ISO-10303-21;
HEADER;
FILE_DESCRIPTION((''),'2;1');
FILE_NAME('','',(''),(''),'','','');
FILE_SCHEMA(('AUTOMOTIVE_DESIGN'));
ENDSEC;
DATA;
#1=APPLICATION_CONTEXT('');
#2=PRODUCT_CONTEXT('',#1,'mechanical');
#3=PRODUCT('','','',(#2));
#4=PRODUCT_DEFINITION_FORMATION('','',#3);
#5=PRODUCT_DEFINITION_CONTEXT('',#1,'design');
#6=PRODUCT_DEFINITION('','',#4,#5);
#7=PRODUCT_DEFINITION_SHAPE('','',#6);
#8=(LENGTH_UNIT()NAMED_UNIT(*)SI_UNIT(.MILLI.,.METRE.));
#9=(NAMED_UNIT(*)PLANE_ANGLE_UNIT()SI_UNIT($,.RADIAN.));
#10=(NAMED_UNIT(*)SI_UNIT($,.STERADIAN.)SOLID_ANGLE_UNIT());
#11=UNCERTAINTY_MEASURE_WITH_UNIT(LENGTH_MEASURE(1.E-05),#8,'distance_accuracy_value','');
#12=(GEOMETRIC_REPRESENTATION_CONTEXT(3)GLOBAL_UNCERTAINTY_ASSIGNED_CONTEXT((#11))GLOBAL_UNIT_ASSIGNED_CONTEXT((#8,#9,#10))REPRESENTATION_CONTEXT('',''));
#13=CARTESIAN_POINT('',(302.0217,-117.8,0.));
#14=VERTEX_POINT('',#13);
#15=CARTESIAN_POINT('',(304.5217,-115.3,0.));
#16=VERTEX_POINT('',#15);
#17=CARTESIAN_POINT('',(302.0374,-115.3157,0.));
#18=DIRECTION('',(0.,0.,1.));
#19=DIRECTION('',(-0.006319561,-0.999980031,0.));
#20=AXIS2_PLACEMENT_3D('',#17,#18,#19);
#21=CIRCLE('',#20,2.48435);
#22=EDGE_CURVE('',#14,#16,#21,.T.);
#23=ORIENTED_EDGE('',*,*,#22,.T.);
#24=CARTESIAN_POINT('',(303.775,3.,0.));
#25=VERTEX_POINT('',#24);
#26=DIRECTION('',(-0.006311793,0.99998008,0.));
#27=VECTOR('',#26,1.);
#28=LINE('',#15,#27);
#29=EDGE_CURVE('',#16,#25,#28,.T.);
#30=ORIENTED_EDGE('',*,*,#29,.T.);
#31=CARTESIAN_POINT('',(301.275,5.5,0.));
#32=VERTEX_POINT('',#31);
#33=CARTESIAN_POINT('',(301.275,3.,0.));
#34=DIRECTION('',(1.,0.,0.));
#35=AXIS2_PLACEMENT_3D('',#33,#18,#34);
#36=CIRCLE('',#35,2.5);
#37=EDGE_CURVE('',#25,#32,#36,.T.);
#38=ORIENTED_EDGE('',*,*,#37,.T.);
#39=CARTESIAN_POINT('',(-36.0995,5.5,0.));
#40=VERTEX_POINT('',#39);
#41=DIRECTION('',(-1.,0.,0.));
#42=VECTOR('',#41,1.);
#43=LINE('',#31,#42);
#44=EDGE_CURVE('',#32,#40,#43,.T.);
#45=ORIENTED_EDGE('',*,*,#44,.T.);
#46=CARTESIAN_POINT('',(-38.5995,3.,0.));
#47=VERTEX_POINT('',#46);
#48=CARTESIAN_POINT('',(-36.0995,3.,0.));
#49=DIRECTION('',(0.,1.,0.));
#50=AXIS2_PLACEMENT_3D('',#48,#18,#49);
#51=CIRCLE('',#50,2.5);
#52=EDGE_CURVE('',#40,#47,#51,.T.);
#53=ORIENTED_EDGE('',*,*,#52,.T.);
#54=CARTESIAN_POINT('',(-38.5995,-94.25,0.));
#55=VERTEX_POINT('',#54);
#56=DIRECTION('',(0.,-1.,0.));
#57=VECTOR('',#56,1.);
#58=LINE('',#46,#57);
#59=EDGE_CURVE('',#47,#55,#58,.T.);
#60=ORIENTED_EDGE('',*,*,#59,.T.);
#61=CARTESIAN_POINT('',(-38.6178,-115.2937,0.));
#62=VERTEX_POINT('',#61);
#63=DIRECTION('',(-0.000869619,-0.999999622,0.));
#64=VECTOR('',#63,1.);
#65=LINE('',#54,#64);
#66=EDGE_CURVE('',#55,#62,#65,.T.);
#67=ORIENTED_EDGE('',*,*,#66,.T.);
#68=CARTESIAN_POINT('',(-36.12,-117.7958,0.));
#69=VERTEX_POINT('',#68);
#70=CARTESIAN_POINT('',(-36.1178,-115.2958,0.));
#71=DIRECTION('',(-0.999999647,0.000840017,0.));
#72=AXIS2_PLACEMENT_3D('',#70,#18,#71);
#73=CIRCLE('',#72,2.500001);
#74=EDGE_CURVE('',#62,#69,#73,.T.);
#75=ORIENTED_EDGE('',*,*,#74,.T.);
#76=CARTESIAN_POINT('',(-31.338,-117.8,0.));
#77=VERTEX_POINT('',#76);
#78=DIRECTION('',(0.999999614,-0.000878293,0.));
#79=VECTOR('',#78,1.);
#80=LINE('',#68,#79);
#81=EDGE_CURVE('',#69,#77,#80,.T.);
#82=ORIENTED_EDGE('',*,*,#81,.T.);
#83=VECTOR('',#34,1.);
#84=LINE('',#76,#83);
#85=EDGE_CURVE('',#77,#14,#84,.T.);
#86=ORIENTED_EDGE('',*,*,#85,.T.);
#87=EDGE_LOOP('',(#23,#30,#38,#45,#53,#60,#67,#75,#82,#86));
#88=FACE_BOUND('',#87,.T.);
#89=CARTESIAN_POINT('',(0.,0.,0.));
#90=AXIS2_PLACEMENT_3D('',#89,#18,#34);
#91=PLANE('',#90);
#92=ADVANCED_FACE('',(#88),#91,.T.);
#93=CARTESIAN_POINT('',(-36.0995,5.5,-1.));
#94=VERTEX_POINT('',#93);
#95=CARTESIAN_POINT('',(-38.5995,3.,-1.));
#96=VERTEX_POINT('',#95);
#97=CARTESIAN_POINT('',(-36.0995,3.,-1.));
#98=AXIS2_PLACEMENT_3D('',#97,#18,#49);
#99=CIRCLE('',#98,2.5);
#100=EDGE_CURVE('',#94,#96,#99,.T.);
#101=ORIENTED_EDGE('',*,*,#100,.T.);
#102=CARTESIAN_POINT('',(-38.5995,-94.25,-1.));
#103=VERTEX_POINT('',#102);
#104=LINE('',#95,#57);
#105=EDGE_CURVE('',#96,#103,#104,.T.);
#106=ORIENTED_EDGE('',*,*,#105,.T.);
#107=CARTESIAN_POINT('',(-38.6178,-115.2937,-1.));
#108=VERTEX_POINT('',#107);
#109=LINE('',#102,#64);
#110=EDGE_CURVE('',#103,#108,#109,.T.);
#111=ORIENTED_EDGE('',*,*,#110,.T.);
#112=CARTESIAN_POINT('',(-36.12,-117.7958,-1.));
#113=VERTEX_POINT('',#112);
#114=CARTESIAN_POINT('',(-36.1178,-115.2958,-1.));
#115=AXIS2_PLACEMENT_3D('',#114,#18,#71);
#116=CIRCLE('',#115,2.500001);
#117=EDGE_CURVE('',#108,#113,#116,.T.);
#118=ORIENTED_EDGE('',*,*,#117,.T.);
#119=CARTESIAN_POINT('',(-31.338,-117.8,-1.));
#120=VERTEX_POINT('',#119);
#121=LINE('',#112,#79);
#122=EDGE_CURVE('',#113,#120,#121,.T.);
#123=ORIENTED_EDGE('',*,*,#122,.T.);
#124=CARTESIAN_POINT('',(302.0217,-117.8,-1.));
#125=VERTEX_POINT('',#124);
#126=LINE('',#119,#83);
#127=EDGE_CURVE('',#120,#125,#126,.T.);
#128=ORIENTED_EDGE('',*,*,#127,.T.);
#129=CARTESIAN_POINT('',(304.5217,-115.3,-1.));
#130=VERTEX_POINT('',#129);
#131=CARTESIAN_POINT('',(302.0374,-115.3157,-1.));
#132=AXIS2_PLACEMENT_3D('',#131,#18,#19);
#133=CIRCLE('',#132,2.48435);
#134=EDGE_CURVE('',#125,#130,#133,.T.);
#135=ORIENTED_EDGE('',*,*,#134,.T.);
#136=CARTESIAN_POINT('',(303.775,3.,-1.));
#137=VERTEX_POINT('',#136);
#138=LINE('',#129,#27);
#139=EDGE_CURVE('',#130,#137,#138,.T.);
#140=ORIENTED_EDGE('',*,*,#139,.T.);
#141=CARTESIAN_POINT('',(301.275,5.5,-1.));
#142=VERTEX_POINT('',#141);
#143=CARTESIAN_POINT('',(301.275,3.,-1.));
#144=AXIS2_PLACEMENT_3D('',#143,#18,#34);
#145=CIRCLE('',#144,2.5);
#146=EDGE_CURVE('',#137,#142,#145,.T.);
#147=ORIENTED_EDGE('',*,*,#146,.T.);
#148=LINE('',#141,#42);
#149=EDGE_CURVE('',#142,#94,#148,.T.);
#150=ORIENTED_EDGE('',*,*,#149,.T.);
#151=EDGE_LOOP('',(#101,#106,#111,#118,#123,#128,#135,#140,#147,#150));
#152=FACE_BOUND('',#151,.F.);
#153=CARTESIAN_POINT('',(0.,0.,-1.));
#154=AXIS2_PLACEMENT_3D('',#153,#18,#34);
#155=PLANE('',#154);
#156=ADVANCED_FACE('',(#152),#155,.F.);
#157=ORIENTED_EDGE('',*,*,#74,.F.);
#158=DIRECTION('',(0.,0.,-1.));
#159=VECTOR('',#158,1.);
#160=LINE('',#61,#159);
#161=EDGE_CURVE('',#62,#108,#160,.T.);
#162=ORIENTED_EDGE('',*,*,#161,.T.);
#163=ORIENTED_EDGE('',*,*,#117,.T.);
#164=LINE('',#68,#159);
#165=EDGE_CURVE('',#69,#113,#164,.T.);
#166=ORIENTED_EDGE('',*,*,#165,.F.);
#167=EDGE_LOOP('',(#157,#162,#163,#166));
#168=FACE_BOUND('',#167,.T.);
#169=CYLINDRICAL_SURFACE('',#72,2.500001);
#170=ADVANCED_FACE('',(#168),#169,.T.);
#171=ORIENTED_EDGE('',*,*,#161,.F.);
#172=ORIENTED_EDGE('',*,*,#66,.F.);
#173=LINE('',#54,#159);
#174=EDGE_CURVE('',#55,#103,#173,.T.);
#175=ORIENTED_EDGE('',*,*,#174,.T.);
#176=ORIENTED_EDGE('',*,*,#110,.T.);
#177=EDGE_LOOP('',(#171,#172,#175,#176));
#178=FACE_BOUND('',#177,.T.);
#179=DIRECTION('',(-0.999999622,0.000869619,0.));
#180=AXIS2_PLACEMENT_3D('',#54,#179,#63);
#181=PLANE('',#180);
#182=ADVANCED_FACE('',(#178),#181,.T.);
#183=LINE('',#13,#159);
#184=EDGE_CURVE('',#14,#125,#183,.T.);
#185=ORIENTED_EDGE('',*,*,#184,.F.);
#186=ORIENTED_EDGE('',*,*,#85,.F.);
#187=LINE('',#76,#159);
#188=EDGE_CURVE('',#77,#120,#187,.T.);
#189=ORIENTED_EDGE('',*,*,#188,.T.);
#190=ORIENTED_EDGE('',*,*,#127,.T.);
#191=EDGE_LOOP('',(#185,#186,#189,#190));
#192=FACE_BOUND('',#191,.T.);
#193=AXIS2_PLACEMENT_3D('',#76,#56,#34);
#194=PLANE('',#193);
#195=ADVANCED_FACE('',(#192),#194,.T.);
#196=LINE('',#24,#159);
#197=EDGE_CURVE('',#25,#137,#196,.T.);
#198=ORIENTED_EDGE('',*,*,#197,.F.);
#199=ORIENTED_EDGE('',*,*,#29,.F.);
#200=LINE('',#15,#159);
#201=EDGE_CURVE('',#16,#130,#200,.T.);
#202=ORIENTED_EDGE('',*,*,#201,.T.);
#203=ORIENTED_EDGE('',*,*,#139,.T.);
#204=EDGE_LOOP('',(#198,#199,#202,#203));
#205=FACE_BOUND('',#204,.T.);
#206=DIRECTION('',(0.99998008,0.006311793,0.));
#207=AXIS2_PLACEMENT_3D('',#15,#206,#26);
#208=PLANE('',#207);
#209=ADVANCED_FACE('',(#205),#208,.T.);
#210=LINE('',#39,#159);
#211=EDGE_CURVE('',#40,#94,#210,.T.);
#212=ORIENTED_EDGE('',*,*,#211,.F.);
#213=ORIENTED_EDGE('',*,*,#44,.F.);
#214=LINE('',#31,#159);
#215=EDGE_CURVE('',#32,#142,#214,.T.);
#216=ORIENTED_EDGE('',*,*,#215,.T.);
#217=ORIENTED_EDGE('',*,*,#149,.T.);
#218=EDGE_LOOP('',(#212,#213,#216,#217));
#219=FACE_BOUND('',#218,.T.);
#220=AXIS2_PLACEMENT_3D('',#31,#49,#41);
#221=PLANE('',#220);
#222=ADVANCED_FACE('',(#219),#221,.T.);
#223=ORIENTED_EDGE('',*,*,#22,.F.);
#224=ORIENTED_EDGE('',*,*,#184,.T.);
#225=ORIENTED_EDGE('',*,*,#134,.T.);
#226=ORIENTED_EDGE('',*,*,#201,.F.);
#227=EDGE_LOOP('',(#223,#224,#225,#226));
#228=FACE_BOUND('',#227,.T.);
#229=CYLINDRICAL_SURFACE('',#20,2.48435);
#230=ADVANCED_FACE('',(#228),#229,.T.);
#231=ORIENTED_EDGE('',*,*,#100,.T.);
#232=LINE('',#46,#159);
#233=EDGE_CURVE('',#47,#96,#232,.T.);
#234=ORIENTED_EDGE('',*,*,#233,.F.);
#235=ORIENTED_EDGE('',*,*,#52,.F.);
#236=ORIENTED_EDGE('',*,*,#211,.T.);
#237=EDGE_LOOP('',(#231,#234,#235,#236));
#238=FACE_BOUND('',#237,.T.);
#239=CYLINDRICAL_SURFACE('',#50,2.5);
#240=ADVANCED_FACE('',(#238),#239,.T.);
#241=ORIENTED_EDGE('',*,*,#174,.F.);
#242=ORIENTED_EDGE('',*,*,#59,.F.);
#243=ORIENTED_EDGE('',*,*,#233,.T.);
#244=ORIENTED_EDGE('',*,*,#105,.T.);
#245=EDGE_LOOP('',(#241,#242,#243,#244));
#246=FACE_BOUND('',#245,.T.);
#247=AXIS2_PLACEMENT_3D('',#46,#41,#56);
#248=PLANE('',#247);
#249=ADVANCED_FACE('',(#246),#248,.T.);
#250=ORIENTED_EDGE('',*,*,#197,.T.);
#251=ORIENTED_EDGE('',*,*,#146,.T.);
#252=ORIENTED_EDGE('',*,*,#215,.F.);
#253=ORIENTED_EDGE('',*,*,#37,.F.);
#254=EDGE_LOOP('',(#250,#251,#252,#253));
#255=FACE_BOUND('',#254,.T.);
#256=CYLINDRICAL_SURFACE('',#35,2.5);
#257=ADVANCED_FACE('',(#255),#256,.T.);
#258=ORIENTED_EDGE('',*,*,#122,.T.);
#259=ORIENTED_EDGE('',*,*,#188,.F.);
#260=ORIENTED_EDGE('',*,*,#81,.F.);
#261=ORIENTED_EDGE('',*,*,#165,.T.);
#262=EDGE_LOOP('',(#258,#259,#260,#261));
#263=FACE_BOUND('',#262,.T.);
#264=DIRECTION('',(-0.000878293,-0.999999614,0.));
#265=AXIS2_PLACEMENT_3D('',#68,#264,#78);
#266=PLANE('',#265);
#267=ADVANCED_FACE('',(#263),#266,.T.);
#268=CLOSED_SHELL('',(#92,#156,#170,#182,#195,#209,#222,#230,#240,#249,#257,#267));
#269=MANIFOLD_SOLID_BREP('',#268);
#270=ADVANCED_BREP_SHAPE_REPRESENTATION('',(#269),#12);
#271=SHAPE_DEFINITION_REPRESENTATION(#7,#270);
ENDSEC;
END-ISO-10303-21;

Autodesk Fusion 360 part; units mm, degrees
sketch "Reference" plane through (0, 0, 0) normal (0, 0, 1) x (1, 0, 0)
  line L0 (298.2751, -95.25) -> (298.2751, -113.3)
  line L1 (298.275, 1) -> (298.275, -57.15)
  line L2 (298.275, -57.15) -> (298.275, -57.15)
  line L3 (304.5217, -115.3) -> (303.775, 3)
  line L4 (179.47, 0) -> (290.235, 0)
  line L5 (290.2351, -112.3) -> (230.642, -112.3)
  line L6 (290.235, 1) -> (298.275, 1)
  line L7 (290.235, 0) -> (298.275, 0)
  line L8 (290.2351, -112.3) -> (298.2751, -112.3)
  arc A0 (302.0217, -117.8) -> (304.5217, -115.3) centre (302.0374, -115.3157) ccw
  line L9 (298.2751, -57.15) -> (298.2751, -74.2)
  line L10 (171.43, 0) -> (171.43, 1)
  line L11 (230.642, -112.3) -> (230.642, -113.3)
  line L12 (222.602, -113.3) -> (222.602, -112.3)
  arc A1 (303.775, 3) -> (301.275, 5.5) centre (301.275, 3) ccw
  line L13 (-28.337, -112.3) -> (-29.3375, -112.3)
  line L14 (-28.3375, 1.5) -> (-28.3375, 3)
  line L15 (-28.337, 1.5) -> (-6.3413, 1.5)
  line L16 (230.642, -112.3) -> (230.642, -113.3)
  line L17 (230.642, -113.3) -> (222.602, -113.3)
  line L18 (-36.12, -117.7958) -> (-31.338, -117.8)
  line L19 (222.602, -113.3) -> (222.602, -112.3)
  line L20 (-28.337, -113.3) -> (-28.337, -112.3)
  line L21 (-29.3375, -113.3) -> (-29.338, -113.3)
  arc A2 (-38.6178, -115.2937) -> (-36.12, -117.7958) centre (-36.1178, -115.2958) ccw
  line L22 (57.336, -112.3) -> (-20.297, -112.3)
  line L23 (8.02, 1) -> (8.02, 0)
  line L24 (-29.3375, -112.3) -> (-29.3375, -113.3)
  line L25 (-33.0995, -112.3) -> (-33.0995, 1.5)
  line L26 (-29.338, -112.3) -> (-33.0995, -112.3)
  line L27 (57.336, -113.3) -> (57.336, -112.3)
  line L28 (-20.297, -113.3) -> (-28.337, -113.3)
  line L29 (-29.338, -113.3) -> (-29.338, -112.3)
  line L30 (-20.297, -112.3) -> (-20.297, -113.3)
  line L31 (301.275, 5.5) -> (-36.0995, 5.5)
  line L32 (-38.5995, -94.25) -> (-38.6178, -115.2937)
  line L33 (298.2751, -76.2) -> (298.2751, -93.25)
  line L34 (298.275, -95.25) -> (298.275, -95.25)
  line L35 (298.275, -76.2) -> (298.275, -76.2)
  line L36 (-6.3413, 1.5) -> (-6.3413, 0)
  line L37 (-38.5995, 3) -> (-38.5995, -94.25)
  arc A3 (303.775, 3) -> (301.275, 5.5) centre (301.275, 3) ccw
  line L38 (298.2751, -74.2) -> (298.275, -74.2)
  line L39 (-28.337, 3) -> (-28.337, 1.5)
  line L40 (-33.0995, 1.5) -> (-28.3375, 1.5)
  line L41 (-0.02, 0) -> (-0.02, 1)
  arc A4 (-36.0995, 5.5) -> (-38.5995, 3) centre (-36.0995, 3) ccw
  line L42 (-31.338, -117.8) -> (302.0217, -117.8)
  line L43 (-6.3413, 0) -> (-0.02, 0)
  line L44 (298.275, -57.15) -> (298.275, -57.15)
  line L45 (-0.02, 1) -> (8.02, 1)
  line L46 (8.02, 0) -> (171.43, 0)
  line L47 (-28.3375, 3) -> (-28.337, 3)
  line L48 (290.235, 0) -> (290.235, 1)
  line L49 (290.235, 1) -> (298.275, 1)
  line L50 (298.2751, -57.15) -> (298.2751, -74.2)
  line L51 (298.275, 1) -> (298.275, -57.15)
  line L52 (222.602, -112.3) -> (65.376, -112.3)
  line L53 (-33.0995, -112.3) -> (-33.0995, 1.5)
  line L54 (301.275, 5.5) -> (-36.0995, 5.5)
  line L55 (-31.338, -117.8) -> (302.0217, -117.8)
  line L56 (57.336, -112.3) -> (-20.297, -112.3)
  line L57 (8.02, 0) -> (171.43, 0)
  line L58 (290.2351, -112.3) -> (230.642, -112.3)
  line L59 (298.2751, -95.25) -> (298.2751, -113.3)
  line L60 (298.275, -76.2) -> (298.275, -76.2)
  line L61 (298.275, -74.2) -> (298.275, -76.2)
  line L62 (298.2751, -76.2) -> (298.2751, -93.25)
  line L63 (298.2751, -93.25) -> (298.275, -93.25)
  line L64 (298.275, -93.25) -> (298.275, -95.25)
  line L65 (290.2351, -113.3) -> (290.2351, -112.3)
  arc A5 (302.0217, -117.8) -> (304.5217, -115.3) centre (302.0374, -115.3157) ccw
  line L66 (179.47, 0) -> (290.235, 0)
  line L67 (298.2751, -113.3) -> (290.2351, -113.3)
  line L68 (304.5217, -115.3) -> (303.775, 3)
  line L69 (298.275, -95.25) -> (298.275, -95.25)
  line L70 (57.336, -113.3) -> (57.336, -112.3)
  line L71 (65.376, -113.3) -> (57.336, -113.3)
  line L72 (-29.338, -113.3) -> (-29.338, -112.3)
  line L73 (-6.3413, 1.5) -> (-6.3413, 0)
  line L74 (-29.3375, -113.3) -> (-29.338, -113.3)
  line L75 (-29.3375, -112.3) -> (-29.3375, -113.3)
  line L76 (-28.3375, 1.5) -> (-28.3375, 3)
  line L77 (-28.337, 1.5) -> (-6.3413, 1.5)
  line L78 (-28.337, -112.3) -> (-29.3375, -112.3)
  line L79 (-28.337, -113.3) -> (-28.337, -112.3)
  line L80 (-28.3375, 3) -> (-28.337, 3)
  line L81 (-20.297, -113.3) -> (-28.337, -113.3)
  line L82 (65.376, -112.3) -> (65.376, -113.3)
  line L83 (-20.297, -112.3) -> (-20.297, -113.3)
  line L84 (-29.338, -112.3) -> (-33.0995, -112.3)
  line L85 (8.02, 1) -> (8.02, 0)
  line L86 (-28.337, 3) -> (-28.337, 1.5)
  arc A6 (-38.6178, -115.2937) -> (-36.12, -117.7958) centre (-36.1178, -115.2958) ccw
  line L87 (-38.5995, -94.25) -> (-38.6178, -115.2937)
  line L88 (-38.5995, 3) -> (-38.5995, -94.25)
  line L89 (-0.02, 0) -> (-0.02, 1)
  line L90 (-33.0995, 1.5) -> (-28.3375, 1.5)
  line L91 (-6.3413, 0) -> (-0.02, 0)
  arc A7 (-36.0995, 5.5) -> (-38.5995, 3) centre (-36.0995, 3) ccw
  line L92 (-0.02, 1) -> (8.02, 1)
  line L93 (-36.12, -117.7958) -> (-31.338, -117.8)
  line L94 (298.275, -93.25) -> (298.275, -95.25)
  line L95 (298.2751, -113.3) -> (290.2351, -113.3)
  line L96 (290.2351, -113.3) -> (290.2351, -112.3)
  line L97 (298.2751, -93.25) -> (298.275, -93.25)
  line L98 (298.275, -74.2) -> (298.275, -76.2)
  line L99 (298.2751, -74.2) -> (298.275, -74.2)
  line L100 (290.235, 0) -> (290.235, 1)
  line L101 (179.47, 1) -> (179.47, 0)
  line L102 (230.642, -113.3) -> (222.602, -113.3)
  line L103 (179.47, 1) -> (179.47, 0)
  line L104 (171.43, 1) -> (179.47, 1)
  line L105 (222.602, -112.3) -> (65.376, -112.3)
  line L106 (65.376, -112.3) -> (65.376, -113.3)
  line L107 (65.376, -113.3) -> (57.336, -113.3)
  line L108 (171.43, 0) -> (171.43, 1)
  line L109 (171.43, 1) -> (179.47, 1)
  dimension "d29" = 5.5
  dimension "d30" = 5.5
  dimension "d31" = 6.2339
  dimension "d32" = 5.5125
  dimension "d33" = 5.5
  dimension "d34" = 6.2276
  dimension "d35" = 5.5188
sketch "FlatPlateSketch" plane through (0, 0, 0) normal (0, 0, 1) x (1, 0, 0)
  line L0 (298.2751, -95.25) -> (298.2751, -113.3)
  line L1 (298.275, 1) -> (298.275, -57.15)
  line L2 (298.275, -57.15) -> (298.275, -57.15)
  line L3 (304.5217, -115.3) -> (303.775, 3)
  line L4 (179.47, 0) -> (290.235, 0)
  line L5 (290.2351, -112.3) -> (230.642, -112.3)
  line L6 (290.235, 1) -> (298.275, 1)
  line L7 (290.235, 0) -> (298.275, 0)
  line L8 (290.2351, -112.3) -> (298.2751, -112.3)
  arc A0 (302.0217, -117.8) -> (304.5217, -115.3) centre (302.0374, -115.3157) ccw
  line L9 (298.2751, -57.15) -> (298.2751, -74.2)
  line L10 (171.43, 0) -> (171.43, 1)
  line L11 (230.642, -112.3) -> (230.642, -113.3)
  line L12 (222.602, -113.3) -> (222.602, -112.3)
  arc A1 (303.775, 3) -> (301.275, 5.5) centre (301.275, 3) ccw
  line L13 (-28.337, -112.3) -> (-29.3375, -112.3)
  line L14 (-28.3375, 1.5) -> (-28.3375, 3)
  line L15 (-28.337, 1.5) -> (-6.3413, 1.5)
  line L16 (230.642, -112.3) -> (230.642, -113.3)
  line L17 (230.642, -113.3) -> (222.602, -113.3)
  line L18 (-36.12, -117.7958) -> (-31.338, -117.8)
  line L19 (222.602, -113.3) -> (222.602, -112.3)
  line L20 (-28.337, -113.3) -> (-28.337, -112.3)
  line L21 (-29.3375, -113.3) -> (-29.338, -113.3)
  arc A2 (-38.6178, -115.2937) -> (-36.12, -117.7958) centre (-36.1178, -115.2958) ccw
  line L22 (57.336, -112.3) -> (-20.297, -112.3)
  line L23 (8.02, 1) -> (8.02, 0)
  line L24 (-29.3375, -112.3) -> (-29.3375, -113.3)
  line L25 (-33.0995, -112.3) -> (-33.0995, 1.5)
  line L26 (-29.338, -112.3) -> (-33.0995, -112.3)
  line L27 (57.336, -113.3) -> (57.336, -112.3)
  line L28 (-20.297, -113.3) -> (-28.337, -113.3)
  line L29 (-29.338, -113.3) -> (-29.338, -112.3)
  line L30 (-20.297, -112.3) -> (-20.297, -113.3)
  line L31 (301.275, 5.5) -> (-36.0995, 5.5)
  line L32 (-38.5995, -94.25) -> (-38.6178, -115.2937)
  line L33 (298.2751, -76.2) -> (298.2751, -93.25)
  line L34 (298.275, -95.25) -> (298.275, -95.25)
  line L35 (298.275, -76.2) -> (298.275, -76.2)
  line L36 (-6.3413, 1.5) -> (-6.3413, 0)
  line L37 (-38.5995, 3) -> (-38.5995, -94.25)
  arc A3 (303.775, 3) -> (301.275, 5.5) centre (301.275, 3) ccw
  line L38 (298.2751, -74.2) -> (298.275, -74.2)
  line L39 (-28.337, 3) -> (-28.337, 1.5)
  line L40 (-33.0995, 1.5) -> (-28.3375, 1.5)
  line L41 (-0.02, 0) -> (-0.02, 1)
  arc A4 (-36.0995, 5.5) -> (-38.5995, 3) centre (-36.0995, 3) ccw
  line L42 (-31.338, -117.8) -> (302.0217, -117.8)
  line L43 (-6.3413, 0) -> (-0.02, 0)
  line L44 (298.275, -57.15) -> (298.275, -57.15)
  line L45 (-0.02, 1) -> (8.02, 1)
  line L46 (8.02, 0) -> (171.43, 0)
  line L47 (-28.3375, 3) -> (-28.337, 3)
  line L48 (290.235, 0) -> (290.235, 1)
  line L49 (290.235, 1) -> (298.275, 1)
  line L50 (298.2751, -57.15) -> (298.2751, -74.2)
  line L51 (298.275, 1) -> (298.275, -57.15)
  line L52 (222.602, -112.3) -> (65.376, -112.3)
  line L53 (-33.0995, -112.3) -> (-33.0995, 1.5)
  line L54 (301.275, 5.5) -> (-36.0995, 5.5)
  line L55 (-31.338, -117.8) -> (302.0217, -117.8)
  line L56 (57.336, -112.3) -> (-20.297, -112.3)
  line L57 (8.02, 0) -> (171.43, 0)
  line L58 (290.2351, -112.3) -> (230.642, -112.3)
  line L59 (298.2751, -95.25) -> (298.2751, -113.3)
  line L60 (298.275, -76.2) -> (298.275, -76.2)
  line L61 (298.275, -74.2) -> (298.275, -76.2)
  line L62 (298.2751, -76.2) -> (298.2751, -93.25)
  line L63 (298.2751, -93.25) -> (298.275, -93.25)
  line L64 (298.275, -93.25) -> (298.275, -95.25)
  line L65 (290.2351, -113.3) -> (290.2351, -112.3)
  arc A5 (302.0217, -117.8) -> (304.5217, -115.3) centre (302.0374, -115.3157) ccw
  line L66 (179.47, 0) -> (290.235, 0)
  line L67 (298.2751, -113.3) -> (290.2351, -113.3)
  line L68 (304.5217, -115.3) -> (303.775, 3)
  line L69 (298.275, -95.25) -> (298.275, -95.25)
  line L70 (57.336, -113.3) -> (57.336, -112.3)
  line L71 (65.376, -113.3) -> (57.336, -113.3)
  line L72 (-29.338, -113.3) -> (-29.338, -112.3)
  line L73 (-6.3413, 1.5) -> (-6.3413, 0)
  line L74 (-29.3375, -113.3) -> (-29.338, -113.3)
  line L75 (-29.3375, -112.3) -> (-29.3375, -113.3)
  line L76 (-28.3375, 1.5) -> (-28.3375, 3)
  line L77 (-28.337, 1.5) -> (-6.3413, 1.5)
  line L78 (-28.337, -112.3) -> (-29.3375, -112.3)
  line L79 (-28.337, -113.3) -> (-28.337, -112.3)
  line L80 (-28.3375, 3) -> (-28.337, 3)
  line L81 (-20.297, -113.3) -> (-28.337, -113.3)
  line L82 (65.376, -112.3) -> (65.376, -113.3)
  line L83 (-20.297, -112.3) -> (-20.297, -113.3)
  line L84 (-29.338, -112.3) -> (-33.0995, -112.3)
  line L85 (8.02, 1) -> (8.02, 0)
  line L86 (-28.337, 3) -> (-28.337, 1.5)
  arc A6 (-38.6178, -115.2937) -> (-36.12, -117.7958) centre (-36.1178, -115.2958) ccw
  line L87 (-38.5995, -94.25) -> (-38.6178, -115.2937)
  line L88 (-38.5995, 3) -> (-38.5995, -94.25)
  line L89 (-0.02, 0) -> (-0.02, 1)
  line L90 (-33.0995, 1.5) -> (-28.3375, 1.5)
  line L91 (-6.3413, 0) -> (-0.02, 0)
  arc A7 (-36.0995, 5.5) -> (-38.5995, 3) centre (-36.0995, 3) ccw
  line L92 (-0.02, 1) -> (8.02, 1)
  line L93 (-36.12, -117.7958) -> (-31.338, -117.8)
  line L94 (298.275, -93.25) -> (298.275, -95.25)
  line L95 (298.2751, -113.3) -> (290.2351, -113.3)
  line L96 (290.2351, -113.3) -> (290.2351, -112.3)
  line L97 (298.2751, -93.25) -> (298.275, -93.25)
  line L98 (298.275, -74.2) -> (298.275, -76.2)
  line L99 (298.2751, -74.2) -> (298.275, -74.2)
  line L100 (290.235, 0) -> (290.235, 1)
  line L101 (179.47, 1) -> (179.47, 0)
  line L102 (230.642, -113.3) -> (222.602, -113.3)
  line L103 (179.47, 1) -> (179.47, 0)
  line L104 (171.43, 1) -> (179.47, 1)
  line L105 (222.602, -112.3) -> (65.376, -112.3)
  line L106 (65.376, -112.3) -> (65.376, -113.3)
  line L107 (65.376, -113.3) -> (57.336, -113.3)
  line L108 (171.43, 0) -> (171.43, 1)
  line L109 (171.43, 1) -> (179.47, 1)
  dimension "d36" = 5.5
  dimension "d37" = 5.5
  dimension "d38" = 6.2339
  dimension "d39" = 5.5125
  dimension "d40" = 5.5
  dimension "d41" = 6.2276
  dimension "d42" = 5.5188
sketch "Sketch7" plane through (0, 0, 0) normal (0, 0, 1) x (1, 0, 0)
  line L0 (298.2751, -95.25) -> (298.2751, -113.3)
  line L1 (298.275, 1) -> (298.275, -57.15)
  line L2 (298.275, -57.15) -> (298.275, -57.15)
  line L3 (304.5217, -115.3) -> (303.775, 3)
  line L4 (179.47, 0) -> (290.235, 0)
  line L5 (290.2351, -112.3) -> (230.642, -112.3)
  line L6 (290.235, 1) -> (298.275, 1)
  line L7 (290.235, 0) -> (298.275, 0)
  line L8 (290.2351, -112.3) -> (298.2751, -112.3)
  arc A0 (302.0217, -117.8) -> (304.5217, -115.3) centre (302.0374, -115.3157) ccw
  line L9 (298.2751, -57.15) -> (298.2751, -74.2)
  line L10 (171.43, 0) -> (171.43, 1)
  line L11 (230.642, -112.3) -> (230.642, -113.3)
  line L12 (222.602, -113.3) -> (222.602, -112.3)
  arc A1 (303.775, 3) -> (301.275, 5.5) centre (301.275, 3) ccw
  line L13 (-28.337, -112.3) -> (-29.3375, -112.3)
  line L14 (-28.3375, 1.5) -> (-28.3375, 3)
  line L15 (-28.337, 1.5) -> (-6.3413, 1.5)
  line L16 (230.642, -112.3) -> (230.642, -113.3)
  line L17 (230.642, -113.3) -> (222.602, -113.3)
  line L18 (-36.12, -117.7958) -> (-31.338, -117.8)
  line L19 (222.602, -113.3) -> (222.602, -112.3)
  line L20 (-28.337, -113.3) -> (-28.337, -112.3)
  line L21 (-29.3375, -113.3) -> (-29.338, -113.3)
  arc A2 (-38.6178, -115.2937) -> (-36.12, -117.7958) centre (-36.1178, -115.2958) ccw
  line L22 (57.336, -112.3) -> (-20.297, -112.3)
  line L23 (8.02, 1) -> (8.02, 0)
  line L24 (-29.3375, -112.3) -> (-29.3375, -113.3)
  line L25 (-33.0995, -112.3) -> (-33.0995, 1.5)
  line L26 (-29.338, -112.3) -> (-33.0995, -112.3)
  line L27 (57.336, -113.3) -> (57.336, -112.3)
  line L28 (-20.297, -113.3) -> (-28.337, -113.3)
  line L29 (-29.338, -113.3) -> (-29.338, -112.3)
  line L30 (-20.297, -112.3) -> (-20.297, -113.3)
  line L31 (301.275, 5.5) -> (-36.0995, 5.5)
  line L32 (-38.5995, -94.25) -> (-38.6178, -115.2937)
  line L33 (298.2751, -76.2) -> (298.2751, -93.25)
  line L34 (298.275, -95.25) -> (298.275, -95.25)
  line L35 (298.275, -76.2) -> (298.275, -76.2)
  line L36 (-6.3413, 1.5) -> (-6.3413, 0)
  line L37 (-38.5995, 3) -> (-38.5995, -94.25)
  arc A3 (303.775, 3) -> (301.275, 5.5) centre (301.275, 3) ccw
  line L38 (298.2751, -74.2) -> (298.275, -74.2)
  line L39 (-28.337, 3) -> (-28.337, 1.5)
  line L40 (-33.0995, 1.5) -> (-28.3375, 1.5)
  line L41 (-0.02, 0) -> (-0.02, 1)
  arc A4 (-36.0995, 5.5) -> (-38.5995, 3) centre (-36.0995, 3) ccw
  line L42 (-31.338, -117.8) -> (302.0217, -117.8)
  line L43 (-6.3413, 0) -> (-0.02, 0)
  line L44 (298.275, -57.15) -> (298.275, -57.15)
  line L45 (-0.02, 1) -> (8.02, 1)
  line L46 (8.02, 0) -> (171.43, 0)
  line L47 (-28.3375, 3) -> (-28.337, 3)
  line L48 (290.235, 0) -> (290.235, 1)
  line L49 (290.235, 1) -> (298.275, 1)
  line L50 (298.2751, -57.15) -> (298.2751, -74.2)
  line L51 (298.275, 1) -> (298.275, -57.15)
  line L52 (222.602, -112.3) -> (65.376, -112.3)
  line L53 (-33.0995, -112.3) -> (-33.0995, 1.5)
  line L54 (301.275, 5.5) -> (-36.0995, 5.5)
  line L55 (-31.338, -117.8) -> (302.0217, -117.8)
  line L56 (57.336, -112.3) -> (-20.297, -112.3)
  line L57 (8.02, 0) -> (171.43, 0)
  line L58 (290.2351, -112.3) -> (230.642, -112.3)
  line L59 (298.2751, -95.25) -> (298.2751, -113.3)
  line L60 (298.275, -76.2) -> (298.275, -76.2)
  line L61 (298.275, -74.2) -> (298.275, -76.2)
  line L62 (298.2751, -76.2) -> (298.2751, -93.25)
  line L63 (298.2751, -93.25) -> (298.275, -93.25)
  line L64 (298.275, -93.25) -> (298.275, -95.25)
  line L65 (290.2351, -113.3) -> (290.2351, -112.3)
  arc A5 (302.0217, -117.8) -> (304.5217, -115.3) centre (302.0374, -115.3157) ccw
  line L66 (179.47, 0) -> (290.235, 0)
  line L67 (298.2751, -113.3) -> (290.2351, -113.3)
  line L68 (304.5217, -115.3) -> (303.775, 3)
  line L69 (298.275, -95.25) -> (298.275, -95.25)
  line L70 (57.336, -113.3) -> (57.336, -112.3)
  line L71 (65.376, -113.3) -> (57.336, -113.3)
  line L72 (-29.338, -113.3) -> (-29.338, -112.3)
  line L73 (-6.3413, 1.5) -> (-6.3413, 0)
  line L74 (-29.3375, -113.3) -> (-29.338, -113.3)
  line L75 (-29.3375, -112.3) -> (-29.3375, -113.3)
  line L76 (-28.3375, 1.5) -> (-28.3375, 3)
  line L77 (-28.337, 1.5) -> (-6.3413, 1.5)
  line L78 (-28.337, -112.3) -> (-29.3375, -112.3)
  line L79 (-28.337, -113.3) -> (-28.337, -112.3)
  line L80 (-28.3375, 3) -> (-28.337, 3)
  line L81 (-20.297, -113.3) -> (-28.337, -113.3)
  line L82 (65.376, -112.3) -> (65.376, -113.3)
  line L83 (-20.297, -112.3) -> (-20.297, -113.3)
  line L84 (-29.338, -112.3) -> (-33.0995, -112.3)
  line L85 (8.02, 1) -> (8.02, 0)
  line L86 (-28.337, 3) -> (-28.337, 1.5)
  arc A6 (-38.6178, -115.2937) -> (-36.12, -117.7958) centre (-36.1178, -115.2958) ccw
  line L87 (-38.5995, -94.25) -> (-38.6178, -115.2937)
  line L88 (-38.5995, 3) -> (-38.5995, -94.25)
  line L89 (-0.02, 0) -> (-0.02, 1)
  line L90 (-33.0995, 1.5) -> (-28.3375, 1.5)
  line L91 (-6.3413, 0) -> (-0.02, 0)
  arc A7 (-36.0995, 5.5) -> (-38.5995, 3) centre (-36.0995, 3) ccw
  line L92 (-0.02, 1) -> (8.02, 1)
  line L93 (-36.12, -117.7958) -> (-31.338, -117.8)
  line L94 (298.275, -93.25) -> (298.275, -95.25)
  line L95 (298.2751, -113.3) -> (290.2351, -113.3)
  line L96 (290.2351, -113.3) -> (290.2351, -112.3)
  line L97 (298.2751, -93.25) -> (298.275, -93.25)
  line L98 (298.275, -74.2) -> (298.275, -76.2)
  line L99 (298.2751, -74.2) -> (298.275, -74.2)
  line L100 (290.235, 0) -> (290.235, 1)
  line L101 (179.47, 1) -> (179.47, 0)
  line L102 (230.642, -113.3) -> (222.602, -113.3)
  line L103 (179.47, 1) -> (179.47, 0)
  line L104 (171.43, 1) -> (179.47, 1)
  line L105 (222.602, -112.3) -> (65.376, -112.3)
  line L106 (65.376, -112.3) -> (65.376, -113.3)
  line L107 (65.376, -113.3) -> (57.336, -113.3)
  line L108 (171.43, 0) -> (171.43, 1)
  line L109 (171.43, 1) -> (179.47, 1)
  dimension "d45" = 5.5
  dimension "d46" = 5.5
  dimension "d47" = 6.2339
  dimension "d48" = 5.5125
  dimension "d49" = 5.5
  dimension "d50" = 6.2276
  dimension "d51" = 5.5188
extrude "Extrude4" add sketch "FlatPlateSketch" against normal blind 1 contours L0 L1 L4 L5 L7 L8 L9 L10 L11 L12 L13 L15 L16 L17 L19 L20 L22 L23 L25 L26 L27 L28 L30 L33 L36 L40 L41 L43 L45 L46 L50 L51 L52 L53 L56 L57 L58 L59 L61 L62 L64 L66 L70 L71 L73 L77 L78 L79 L81 L82 L83 L84 L85 L89 L90 L91 L92 L94 L98 L101 L102 L103 L104 L105 L106 L107 L108 L109 | L0 L8 L59 L65 L67 L95 L96 | L1 L6 L7 L48 L49 L51 L100 | L3 A0 A1 L18 A2 L31 L32 L37 A3 A4 L42 L54 L55 A5 L68 A6 L87 L88 A7 L93
sketch "Sketch8" plane through (0, 0, 0) normal (0, 0, 1) x (1, 0, 0)
  line L0 (298.2751, -95.25) -> (298.2751, -113.3)
  line L1 (298.275, 1) -> (298.275, -57.15)
  line L2 (298.275, -57.15) -> (298.275, -57.15)
  line L3 (304.5217, -115.3) -> (303.775, 3)
  line L4 (179.47, 0) -> (290.235, 0)
  line L5 (290.2351, -112.3) -> (230.642, -112.3)
  line L6 (290.235, 1) -> (298.275, 1)
  line L7 (290.235, 0) -> (298.275, 0)
  line L8 (290.2351, -112.3) -> (298.2751, -112.3)
  arc A0 (302.0217, -117.8) -> (304.5217, -115.3) centre (302.0374, -115.3157) ccw
  line L9 (298.2751, -57.15) -> (298.2751, -74.2)
  line L10 (171.43, 0) -> (171.43, 1)
  line L11 (230.642, -112.3) -> (230.642, -113.3)
  line L12 (222.602, -113.3) -> (222.602, -112.3)
  arc A1 (303.775, 3) -> (301.275, 5.5) centre (301.275, 3) ccw
  line L13 (-28.337, -112.3) -> (-29.3375, -112.3)
  line L14 (-28.3375, 1.5) -> (-28.3375, 3)
  line L15 (-28.337, 1.5) -> (-6.3413, 1.5)
  line L16 (230.642, -112.3) -> (230.642, -113.3)
  line L17 (230.642, -113.3) -> (222.602, -113.3)
  line L18 (-36.12, -117.7958) -> (-31.338, -117.8)
  line L19 (222.602, -113.3) -> (222.602, -112.3)
  line L20 (-28.337, -113.3) -> (-28.337, -112.3)
  line L21 (-29.3375, -113.3) -> (-29.338, -113.3)
  arc A2 (-38.6178, -115.2937) -> (-36.12, -117.7958) centre (-36.1178, -115.2958) ccw
  line L22 (57.336, -112.3) -> (-20.297, -112.3)
  line L23 (8.02, 1) -> (8.02, 0)
  line L24 (-29.3375, -112.3) -> (-29.3375, -113.3)
  line L25 (-33.0995, -112.3) -> (-33.0995, 1.5)
  line L26 (-29.338, -112.3) -> (-33.0995, -112.3)
  line L27 (57.336, -113.3) -> (57.336, -112.3)
  line L28 (-20.297, -113.3) -> (-28.337, -113.3)
  line L29 (-29.338, -113.3) -> (-29.338, -112.3)
  line L30 (-20.297, -112.3) -> (-20.297, -113.3)
  line L31 (301.275, 5.5) -> (-36.0995, 5.5)
  line L32 (-38.5995, -94.25) -> (-38.6178, -115.2937)
  line L33 (298.2751, -76.2) -> (298.2751, -93.25)
  line L34 (298.275, -95.25) -> (298.275, -95.25)
  line L35 (298.275, -76.2) -> (298.275, -76.2)
  line L36 (-6.3413, 1.5) -> (-6.3413, 0)
  line L37 (-38.5995, 3) -> (-38.5995, -94.25)
  arc A3 (303.775, 3) -> (301.275, 5.5) centre (301.275, 3) ccw
  line L38 (298.2751, -74.2) -> (298.275, -74.2)
  line L39 (-28.337, 3) -> (-28.337, 1.5)
  line L40 (-33.0995, 1.5) -> (-28.3375, 1.5)
  line L41 (-0.02, 0) -> (-0.02, 1)
  arc A4 (-36.0995, 5.5) -> (-38.5995, 3) centre (-36.0995, 3) ccw
  line L42 (-31.338, -117.8) -> (302.0217, -117.8)
  line L43 (-6.3413, 0) -> (-0.02, 0)
  line L44 (298.275, -57.15) -> (298.275, -57.15)
  line L45 (-0.02, 1) -> (8.02, 1)
  line L46 (8.02, 0) -> (171.43, 0)
  line L47 (-28.3375, 3) -> (-28.337, 3)
  line L48 (290.235, 0) -> (290.235, 1)
  line L49 (290.235, 1) -> (298.275, 1)
  line L50 (298.2751, -57.15) -> (298.2751, -74.2)
  line L51 (298.275, 1) -> (298.275, -57.15)
  line L52 (222.602, -112.3) -> (65.376, -112.3)
  line L53 (-33.0995, -112.3) -> (-33.0995, 1.5)
  line L54 (301.275, 5.5) -> (-36.0995, 5.5)
  line L55 (-31.338, -117.8) -> (302.0217, -117.8)
  line L56 (57.336, -112.3) -> (-20.297, -112.3)
  line L57 (8.02, 0) -> (171.43, 0)
  line L58 (290.2351, -112.3) -> (230.642, -112.3)
  line L59 (298.2751, -95.25) -> (298.2751, -113.3)
  line L60 (298.275, -76.2) -> (298.275, -76.2)
  line L61 (298.275, -74.2) -> (298.275, -76.2)
  line L62 (298.2751, -76.2) -> (298.2751, -93.25)
  line L63 (298.2751, -93.25) -> (298.275, -93.25)
  line L64 (298.275, -93.25) -> (298.275, -95.25)
  line L65 (290.2351, -113.3) -> (290.2351, -112.3)
  arc A5 (302.0217, -117.8) -> (304.5217, -115.3) centre (302.0374, -115.3157) ccw
  line L66 (179.47, 0) -> (290.235, 0)
  line L67 (298.2751, -113.3) -> (290.2351, -113.3)
  line L68 (304.5217, -115.3) -> (303.775, 3)
  line L69 (298.275, -95.25) -> (298.275, -95.25)
  line L70 (57.336, -113.3) -> (57.336, -112.3)
  line L71 (65.376, -113.3) -> (57.336, -113.3)
  line L72 (-29.338, -113.3) -> (-29.338, -112.3)
  line L73 (-6.3413, 1.5) -> (-6.3413, 0)
  line L74 (-29.3375, -113.3) -> (-29.338, -113.3)
  line L75 (-29.3375, -112.3) -> (-29.3375, -113.3)
  line L76 (-28.3375, 1.5) -> (-28.3375, 3)
  line L77 (-28.337, 1.5) -> (-6.3413, 1.5)
  line L78 (-28.337, -112.3) -> (-29.3375, -112.3)
  line L79 (-28.337, -113.3) -> (-28.337, -112.3)
  line L80 (-28.3375, 3) -> (-28.337, 3)
  line L81 (-20.297, -113.3) -> (-28.337, -113.3)
  line L82 (65.376, -112.3) -> (65.376, -113.3)
  line L83 (-20.297, -112.3) -> (-20.297, -113.3)
  line L84 (-29.338, -112.3) -> (-33.0995, -112.3)
  line L85 (8.02, 1) -> (8.02, 0)
  line L86 (-28.337, 3) -> (-28.337, 1.5)
  arc A6 (-38.6178, -115.2937) -> (-36.12, -117.7958) centre (-36.1178, -115.2958) ccw
  line L87 (-38.5995, -94.25) -> (-38.6178, -115.2937)
  line L88 (-38.5995, 3) -> (-38.5995, -94.25)
  line L89 (-0.02, 0) -> (-0.02, 1)
  line L90 (-33.0995, 1.5) -> (-28.3375, 1.5)
  line L91 (-6.3413, 0) -> (-0.02, 0)
  arc A7 (-36.0995, 5.5) -> (-38.5995, 3) centre (-36.0995, 3) ccw
  line L92 (-0.02, 1) -> (8.02, 1)
  line L93 (-36.12, -117.7958) -> (-31.338, -117.8)
  line L94 (298.275, -93.25) -> (298.275, -95.25)
  line L95 (298.2751, -113.3) -> (290.2351, -113.3)
  line L96 (290.2351, -113.3) -> (290.2351, -112.3)
  line L97 (298.2751, -93.25) -> (298.275, -93.25)
  line L98 (298.275, -74.2) -> (298.275, -76.2)
  line L99 (298.2751, -74.2) -> (298.275, -74.2)
  line L100 (290.235, 0) -> (290.235, 1)
  line L101 (179.47, 1) -> (179.47, 0)
  line L102 (230.642, -113.3) -> (222.602, -113.3)
  line L103 (179.47, 1) -> (179.47, 0)
  line L104 (171.43, 1) -> (179.47, 1)
  line L105 (222.602, -112.3) -> (65.376, -112.3)
  line L106 (65.376, -112.3) -> (65.376, -113.3)
  line L107 (65.376, -113.3) -> (57.336, -113.3)
  line L108 (171.43, 0) -> (171.43, 1)
  line L109 (171.43, 1) -> (179.47, 1)
  dimension "d54" = 5.5
  dimension "d55" = 5.5
  dimension "d56" = 6.2339
  dimension "d57" = 5.5125
  dimension "d58" = 5.5
  dimension "d59" = 6.2276
  dimension "d60" = 5.5188
sketch "Sketch9" plane through (0, 0, 0) normal (0, 0, 1) x (1, 0, 0)
  line L0 (298.2751, -95.25) -> (298.2751, -113.3)
  line L1 (298.275, 1) -> (298.275, -57.15)
  line L2 (298.275, -57.15) -> (298.275, -57.15)
  line L3 (304.5217, -115.3) -> (303.775, 3)
  line L4 (179.47, 0) -> (290.235, 0)
  line L5 (290.2351, -112.3) -> (230.642, -112.3)
  line L6 (290.235, 1) -> (298.275, 1)
  line L7 (290.235, 0) -> (298.275, 0)
  line L8 (290.2351, -112.3) -> (298.2751, -112.3)
  arc A0 (302.0217, -117.8) -> (304.5217, -115.3) centre (302.0374, -115.3157) ccw
  line L9 (298.2751, -57.15) -> (298.2751, -74.2)
  line L10 (171.43, 0) -> (171.43, 1)
  line L11 (230.642, -112.3) -> (230.642, -113.3)
  line L12 (222.602, -113.3) -> (222.602, -112.3)
  arc A1 (303.775, 3) -> (301.275, 5.5) centre (301.275, 3) ccw
  line L13 (-28.337, -112.3) -> (-29.3375, -112.3)
  line L14 (-28.3375, 1.5) -> (-28.3375, 3)
  line L15 (-28.337, 1.5) -> (-6.3413, 1.5)
  line L16 (230.642, -112.3) -> (230.642, -113.3)
  line L17 (230.642, -113.3) -> (222.602, -113.3)
  line L18 (-36.12, -117.7958) -> (-31.338, -117.8)
  line L19 (222.602, -113.3) -> (222.602, -112.3)
  line L20 (-28.337, -113.3) -> (-28.337, -112.3)
  line L21 (-29.3375, -113.3) -> (-29.338, -113.3)
  arc A2 (-38.6178, -115.2937) -> (-36.12, -117.7958) centre (-36.1178, -115.2958) ccw
  line L22 (57.336, -112.3) -> (-20.297, -112.3)
  line L23 (8.02, 1) -> (8.02, 0)
  line L24 (-29.3375, -112.3) -> (-29.3375, -113.3)
  line L25 (-33.0995, -112.3) -> (-33.0995, 1.5)
  line L26 (-29.338, -112.3) -> (-33.0995, -112.3)
  line L27 (57.336, -113.3) -> (57.336, -112.3)
  line L28 (-20.297, -113.3) -> (-28.337, -113.3)
  line L29 (-29.338, -113.3) -> (-29.338, -112.3)
  line L30 (-20.297, -112.3) -> (-20.297, -113.3)
  line L31 (301.275, 5.5) -> (-36.0995, 5.5)
  line L32 (-38.5995, -94.25) -> (-38.6178, -115.2937)
  line L33 (298.2751, -76.2) -> (298.2751, -93.25)
  line L34 (298.275, -95.25) -> (298.275, -95.25)
  line L35 (298.275, -76.2) -> (298.275, -76.2)
  line L36 (-6.3413, 1.5) -> (-6.3413, 0)
  line L37 (-38.5995, 3) -> (-38.5995, -94.25)
  arc A3 (303.775, 3) -> (301.275, 5.5) centre (301.275, 3) ccw
  line L38 (298.2751, -74.2) -> (298.275, -74.2)
  line L39 (-28.337, 3) -> (-28.337, 1.5)
  line L40 (-33.0995, 1.5) -> (-28.3375, 1.5)
  line L41 (-0.02, 0) -> (-0.02, 1)
  arc A4 (-36.0995, 5.5) -> (-38.5995, 3) centre (-36.0995, 3) ccw
  line L42 (-31.338, -117.8) -> (302.0217, -117.8)
  line L43 (-6.3413, 0) -> (-0.02, 0)
  line L44 (298.275, -57.15) -> (298.275, -57.15)
  line L45 (-0.02, 1) -> (8.02, 1)
  line L46 (8.02, 0) -> (171.43, 0)
  line L47 (-28.3375, 3) -> (-28.337, 3)
  line L48 (290.235, 0) -> (290.235, 1)
  line L49 (290.235, 1) -> (298.275, 1)
  line L50 (298.2751, -57.15) -> (298.2751, -74.2)
  line L51 (298.275, 1) -> (298.275, -57.15)
  line L52 (222.602, -112.3) -> (65.376, -112.3)
  line L53 (-33.0995, -112.3) -> (-33.0995, 1.5)
  line L54 (301.275, 5.5) -> (-36.0995, 5.5)
  line L55 (-31.338, -117.8) -> (302.0217, -117.8)
  line L56 (57.336, -112.3) -> (-20.297, -112.3)
  line L57 (8.02, 0) -> (171.43, 0)
  line L58 (290.2351, -112.3) -> (230.642, -112.3)
  line L59 (298.2751, -95.25) -> (298.2751, -113.3)
  line L60 (298.275, -76.2) -> (298.275, -76.2)
  line L61 (298.275, -74.2) -> (298.275, -76.2)
  line L62 (298.2751, -76.2) -> (298.2751, -93.25)
  line L63 (298.2751, -93.25) -> (298.275, -93.25)
  line L64 (298.275, -93.25) -> (298.275, -95.25)
  line L65 (290.2351, -113.3) -> (290.2351, -112.3)
  arc A5 (302.0217, -117.8) -> (304.5217, -115.3) centre (302.0374, -115.3157) ccw
  line L66 (179.47, 0) -> (290.235, 0)
  line L67 (298.2751, -113.3) -> (290.2351, -113.3)
  line L68 (304.5217, -115.3) -> (303.775, 3)
  line L69 (298.275, -95.25) -> (298.275, -95.25)
  line L70 (57.336, -113.3) -> (57.336, -112.3)
  line L71 (65.376, -113.3) -> (57.336, -113.3)
  line L72 (-29.338, -113.3) -> (-29.338, -112.3)
  line L73 (-6.3413, 1.5) -> (-6.3413, 0)
  line L74 (-29.3375, -113.3) -> (-29.338, -113.3)
  line L75 (-29.3375, -112.3) -> (-29.3375, -113.3)
  line L76 (-28.3375, 1.5) -> (-28.3375, 3)
  line L77 (-28.337, 1.5) -> (-6.3413, 1.5)
  line L78 (-28.337, -112.3) -> (-29.3375, -112.3)
  line L79 (-28.337, -113.3) -> (-28.337, -112.3)
  line L80 (-28.3375, 3) -> (-28.337, 3)
  line L81 (-20.297, -113.3) -> (-28.337, -113.3)
  line L82 (65.376, -112.3) -> (65.376, -113.3)
  line L83 (-20.297, -112.3) -> (-20.297, -113.3)
  line L84 (-29.338, -112.3) -> (-33.0995, -112.3)
  line L85 (8.02, 1) -> (8.02, 0)
  line L86 (-28.337, 3) -> (-28.337, 1.5)
  arc A6 (-38.6178, -115.2937) -> (-36.12, -117.7958) centre (-36.1178, -115.2958) ccw
  line L87 (-38.5995, -94.25) -> (-38.6178, -115.2937)
  line L88 (-38.5995, 3) -> (-38.5995, -94.25)
  line L89 (-0.02, 0) -> (-0.02, 1)
  line L90 (-33.0995, 1.5) -> (-28.3375, 1.5)
  line L91 (-6.3413, 0) -> (-0.02, 0)
  arc A7 (-36.0995, 5.5) -> (-38.5995, 3) centre (-36.0995, 3) ccw
  line L92 (-0.02, 1) -> (8.02, 1)
  line L93 (-36.12, -117.7958) -> (-31.338, -117.8)
  line L94 (298.275, -93.25) -> (298.275, -95.25)
  line L95 (298.2751, -113.3) -> (290.2351, -113.3)
  line L96 (290.2351, -113.3) -> (290.2351, -112.3)
  line L97 (298.2751, -93.25) -> (298.275, -93.25)
  line L98 (298.275, -74.2) -> (298.275, -76.2)
  line L99 (298.2751, -74.2) -> (298.275, -74.2)
  line L100 (290.235, 0) -> (290.235, 1)
  line L101 (179.47, 1) -> (179.47, 0)
  line L102 (230.642, -113.3) -> (222.602, -113.3)
  line L103 (179.47, 1) -> (179.47, 0)
  line L104 (171.43, 1) -> (179.47, 1)
  line L105 (222.602, -112.3) -> (65.376, -112.3)
  line L106 (65.376, -112.3) -> (65.376, -113.3)
  line L107 (65.376, -113.3) -> (57.336, -113.3)
  line L108 (171.43, 0) -> (171.43, 1)
  line L109 (171.43, 1) -> (179.47, 1)
  dimension "d61" = 5.5
  dimension "d62" = 5.5
  dimension "d63" = 6.2339
  dimension "d64" = 5.5125
  dimension "d65" = 5.5
  dimension "d66" = 6.2276
  dimension "d67" = 5.5188
